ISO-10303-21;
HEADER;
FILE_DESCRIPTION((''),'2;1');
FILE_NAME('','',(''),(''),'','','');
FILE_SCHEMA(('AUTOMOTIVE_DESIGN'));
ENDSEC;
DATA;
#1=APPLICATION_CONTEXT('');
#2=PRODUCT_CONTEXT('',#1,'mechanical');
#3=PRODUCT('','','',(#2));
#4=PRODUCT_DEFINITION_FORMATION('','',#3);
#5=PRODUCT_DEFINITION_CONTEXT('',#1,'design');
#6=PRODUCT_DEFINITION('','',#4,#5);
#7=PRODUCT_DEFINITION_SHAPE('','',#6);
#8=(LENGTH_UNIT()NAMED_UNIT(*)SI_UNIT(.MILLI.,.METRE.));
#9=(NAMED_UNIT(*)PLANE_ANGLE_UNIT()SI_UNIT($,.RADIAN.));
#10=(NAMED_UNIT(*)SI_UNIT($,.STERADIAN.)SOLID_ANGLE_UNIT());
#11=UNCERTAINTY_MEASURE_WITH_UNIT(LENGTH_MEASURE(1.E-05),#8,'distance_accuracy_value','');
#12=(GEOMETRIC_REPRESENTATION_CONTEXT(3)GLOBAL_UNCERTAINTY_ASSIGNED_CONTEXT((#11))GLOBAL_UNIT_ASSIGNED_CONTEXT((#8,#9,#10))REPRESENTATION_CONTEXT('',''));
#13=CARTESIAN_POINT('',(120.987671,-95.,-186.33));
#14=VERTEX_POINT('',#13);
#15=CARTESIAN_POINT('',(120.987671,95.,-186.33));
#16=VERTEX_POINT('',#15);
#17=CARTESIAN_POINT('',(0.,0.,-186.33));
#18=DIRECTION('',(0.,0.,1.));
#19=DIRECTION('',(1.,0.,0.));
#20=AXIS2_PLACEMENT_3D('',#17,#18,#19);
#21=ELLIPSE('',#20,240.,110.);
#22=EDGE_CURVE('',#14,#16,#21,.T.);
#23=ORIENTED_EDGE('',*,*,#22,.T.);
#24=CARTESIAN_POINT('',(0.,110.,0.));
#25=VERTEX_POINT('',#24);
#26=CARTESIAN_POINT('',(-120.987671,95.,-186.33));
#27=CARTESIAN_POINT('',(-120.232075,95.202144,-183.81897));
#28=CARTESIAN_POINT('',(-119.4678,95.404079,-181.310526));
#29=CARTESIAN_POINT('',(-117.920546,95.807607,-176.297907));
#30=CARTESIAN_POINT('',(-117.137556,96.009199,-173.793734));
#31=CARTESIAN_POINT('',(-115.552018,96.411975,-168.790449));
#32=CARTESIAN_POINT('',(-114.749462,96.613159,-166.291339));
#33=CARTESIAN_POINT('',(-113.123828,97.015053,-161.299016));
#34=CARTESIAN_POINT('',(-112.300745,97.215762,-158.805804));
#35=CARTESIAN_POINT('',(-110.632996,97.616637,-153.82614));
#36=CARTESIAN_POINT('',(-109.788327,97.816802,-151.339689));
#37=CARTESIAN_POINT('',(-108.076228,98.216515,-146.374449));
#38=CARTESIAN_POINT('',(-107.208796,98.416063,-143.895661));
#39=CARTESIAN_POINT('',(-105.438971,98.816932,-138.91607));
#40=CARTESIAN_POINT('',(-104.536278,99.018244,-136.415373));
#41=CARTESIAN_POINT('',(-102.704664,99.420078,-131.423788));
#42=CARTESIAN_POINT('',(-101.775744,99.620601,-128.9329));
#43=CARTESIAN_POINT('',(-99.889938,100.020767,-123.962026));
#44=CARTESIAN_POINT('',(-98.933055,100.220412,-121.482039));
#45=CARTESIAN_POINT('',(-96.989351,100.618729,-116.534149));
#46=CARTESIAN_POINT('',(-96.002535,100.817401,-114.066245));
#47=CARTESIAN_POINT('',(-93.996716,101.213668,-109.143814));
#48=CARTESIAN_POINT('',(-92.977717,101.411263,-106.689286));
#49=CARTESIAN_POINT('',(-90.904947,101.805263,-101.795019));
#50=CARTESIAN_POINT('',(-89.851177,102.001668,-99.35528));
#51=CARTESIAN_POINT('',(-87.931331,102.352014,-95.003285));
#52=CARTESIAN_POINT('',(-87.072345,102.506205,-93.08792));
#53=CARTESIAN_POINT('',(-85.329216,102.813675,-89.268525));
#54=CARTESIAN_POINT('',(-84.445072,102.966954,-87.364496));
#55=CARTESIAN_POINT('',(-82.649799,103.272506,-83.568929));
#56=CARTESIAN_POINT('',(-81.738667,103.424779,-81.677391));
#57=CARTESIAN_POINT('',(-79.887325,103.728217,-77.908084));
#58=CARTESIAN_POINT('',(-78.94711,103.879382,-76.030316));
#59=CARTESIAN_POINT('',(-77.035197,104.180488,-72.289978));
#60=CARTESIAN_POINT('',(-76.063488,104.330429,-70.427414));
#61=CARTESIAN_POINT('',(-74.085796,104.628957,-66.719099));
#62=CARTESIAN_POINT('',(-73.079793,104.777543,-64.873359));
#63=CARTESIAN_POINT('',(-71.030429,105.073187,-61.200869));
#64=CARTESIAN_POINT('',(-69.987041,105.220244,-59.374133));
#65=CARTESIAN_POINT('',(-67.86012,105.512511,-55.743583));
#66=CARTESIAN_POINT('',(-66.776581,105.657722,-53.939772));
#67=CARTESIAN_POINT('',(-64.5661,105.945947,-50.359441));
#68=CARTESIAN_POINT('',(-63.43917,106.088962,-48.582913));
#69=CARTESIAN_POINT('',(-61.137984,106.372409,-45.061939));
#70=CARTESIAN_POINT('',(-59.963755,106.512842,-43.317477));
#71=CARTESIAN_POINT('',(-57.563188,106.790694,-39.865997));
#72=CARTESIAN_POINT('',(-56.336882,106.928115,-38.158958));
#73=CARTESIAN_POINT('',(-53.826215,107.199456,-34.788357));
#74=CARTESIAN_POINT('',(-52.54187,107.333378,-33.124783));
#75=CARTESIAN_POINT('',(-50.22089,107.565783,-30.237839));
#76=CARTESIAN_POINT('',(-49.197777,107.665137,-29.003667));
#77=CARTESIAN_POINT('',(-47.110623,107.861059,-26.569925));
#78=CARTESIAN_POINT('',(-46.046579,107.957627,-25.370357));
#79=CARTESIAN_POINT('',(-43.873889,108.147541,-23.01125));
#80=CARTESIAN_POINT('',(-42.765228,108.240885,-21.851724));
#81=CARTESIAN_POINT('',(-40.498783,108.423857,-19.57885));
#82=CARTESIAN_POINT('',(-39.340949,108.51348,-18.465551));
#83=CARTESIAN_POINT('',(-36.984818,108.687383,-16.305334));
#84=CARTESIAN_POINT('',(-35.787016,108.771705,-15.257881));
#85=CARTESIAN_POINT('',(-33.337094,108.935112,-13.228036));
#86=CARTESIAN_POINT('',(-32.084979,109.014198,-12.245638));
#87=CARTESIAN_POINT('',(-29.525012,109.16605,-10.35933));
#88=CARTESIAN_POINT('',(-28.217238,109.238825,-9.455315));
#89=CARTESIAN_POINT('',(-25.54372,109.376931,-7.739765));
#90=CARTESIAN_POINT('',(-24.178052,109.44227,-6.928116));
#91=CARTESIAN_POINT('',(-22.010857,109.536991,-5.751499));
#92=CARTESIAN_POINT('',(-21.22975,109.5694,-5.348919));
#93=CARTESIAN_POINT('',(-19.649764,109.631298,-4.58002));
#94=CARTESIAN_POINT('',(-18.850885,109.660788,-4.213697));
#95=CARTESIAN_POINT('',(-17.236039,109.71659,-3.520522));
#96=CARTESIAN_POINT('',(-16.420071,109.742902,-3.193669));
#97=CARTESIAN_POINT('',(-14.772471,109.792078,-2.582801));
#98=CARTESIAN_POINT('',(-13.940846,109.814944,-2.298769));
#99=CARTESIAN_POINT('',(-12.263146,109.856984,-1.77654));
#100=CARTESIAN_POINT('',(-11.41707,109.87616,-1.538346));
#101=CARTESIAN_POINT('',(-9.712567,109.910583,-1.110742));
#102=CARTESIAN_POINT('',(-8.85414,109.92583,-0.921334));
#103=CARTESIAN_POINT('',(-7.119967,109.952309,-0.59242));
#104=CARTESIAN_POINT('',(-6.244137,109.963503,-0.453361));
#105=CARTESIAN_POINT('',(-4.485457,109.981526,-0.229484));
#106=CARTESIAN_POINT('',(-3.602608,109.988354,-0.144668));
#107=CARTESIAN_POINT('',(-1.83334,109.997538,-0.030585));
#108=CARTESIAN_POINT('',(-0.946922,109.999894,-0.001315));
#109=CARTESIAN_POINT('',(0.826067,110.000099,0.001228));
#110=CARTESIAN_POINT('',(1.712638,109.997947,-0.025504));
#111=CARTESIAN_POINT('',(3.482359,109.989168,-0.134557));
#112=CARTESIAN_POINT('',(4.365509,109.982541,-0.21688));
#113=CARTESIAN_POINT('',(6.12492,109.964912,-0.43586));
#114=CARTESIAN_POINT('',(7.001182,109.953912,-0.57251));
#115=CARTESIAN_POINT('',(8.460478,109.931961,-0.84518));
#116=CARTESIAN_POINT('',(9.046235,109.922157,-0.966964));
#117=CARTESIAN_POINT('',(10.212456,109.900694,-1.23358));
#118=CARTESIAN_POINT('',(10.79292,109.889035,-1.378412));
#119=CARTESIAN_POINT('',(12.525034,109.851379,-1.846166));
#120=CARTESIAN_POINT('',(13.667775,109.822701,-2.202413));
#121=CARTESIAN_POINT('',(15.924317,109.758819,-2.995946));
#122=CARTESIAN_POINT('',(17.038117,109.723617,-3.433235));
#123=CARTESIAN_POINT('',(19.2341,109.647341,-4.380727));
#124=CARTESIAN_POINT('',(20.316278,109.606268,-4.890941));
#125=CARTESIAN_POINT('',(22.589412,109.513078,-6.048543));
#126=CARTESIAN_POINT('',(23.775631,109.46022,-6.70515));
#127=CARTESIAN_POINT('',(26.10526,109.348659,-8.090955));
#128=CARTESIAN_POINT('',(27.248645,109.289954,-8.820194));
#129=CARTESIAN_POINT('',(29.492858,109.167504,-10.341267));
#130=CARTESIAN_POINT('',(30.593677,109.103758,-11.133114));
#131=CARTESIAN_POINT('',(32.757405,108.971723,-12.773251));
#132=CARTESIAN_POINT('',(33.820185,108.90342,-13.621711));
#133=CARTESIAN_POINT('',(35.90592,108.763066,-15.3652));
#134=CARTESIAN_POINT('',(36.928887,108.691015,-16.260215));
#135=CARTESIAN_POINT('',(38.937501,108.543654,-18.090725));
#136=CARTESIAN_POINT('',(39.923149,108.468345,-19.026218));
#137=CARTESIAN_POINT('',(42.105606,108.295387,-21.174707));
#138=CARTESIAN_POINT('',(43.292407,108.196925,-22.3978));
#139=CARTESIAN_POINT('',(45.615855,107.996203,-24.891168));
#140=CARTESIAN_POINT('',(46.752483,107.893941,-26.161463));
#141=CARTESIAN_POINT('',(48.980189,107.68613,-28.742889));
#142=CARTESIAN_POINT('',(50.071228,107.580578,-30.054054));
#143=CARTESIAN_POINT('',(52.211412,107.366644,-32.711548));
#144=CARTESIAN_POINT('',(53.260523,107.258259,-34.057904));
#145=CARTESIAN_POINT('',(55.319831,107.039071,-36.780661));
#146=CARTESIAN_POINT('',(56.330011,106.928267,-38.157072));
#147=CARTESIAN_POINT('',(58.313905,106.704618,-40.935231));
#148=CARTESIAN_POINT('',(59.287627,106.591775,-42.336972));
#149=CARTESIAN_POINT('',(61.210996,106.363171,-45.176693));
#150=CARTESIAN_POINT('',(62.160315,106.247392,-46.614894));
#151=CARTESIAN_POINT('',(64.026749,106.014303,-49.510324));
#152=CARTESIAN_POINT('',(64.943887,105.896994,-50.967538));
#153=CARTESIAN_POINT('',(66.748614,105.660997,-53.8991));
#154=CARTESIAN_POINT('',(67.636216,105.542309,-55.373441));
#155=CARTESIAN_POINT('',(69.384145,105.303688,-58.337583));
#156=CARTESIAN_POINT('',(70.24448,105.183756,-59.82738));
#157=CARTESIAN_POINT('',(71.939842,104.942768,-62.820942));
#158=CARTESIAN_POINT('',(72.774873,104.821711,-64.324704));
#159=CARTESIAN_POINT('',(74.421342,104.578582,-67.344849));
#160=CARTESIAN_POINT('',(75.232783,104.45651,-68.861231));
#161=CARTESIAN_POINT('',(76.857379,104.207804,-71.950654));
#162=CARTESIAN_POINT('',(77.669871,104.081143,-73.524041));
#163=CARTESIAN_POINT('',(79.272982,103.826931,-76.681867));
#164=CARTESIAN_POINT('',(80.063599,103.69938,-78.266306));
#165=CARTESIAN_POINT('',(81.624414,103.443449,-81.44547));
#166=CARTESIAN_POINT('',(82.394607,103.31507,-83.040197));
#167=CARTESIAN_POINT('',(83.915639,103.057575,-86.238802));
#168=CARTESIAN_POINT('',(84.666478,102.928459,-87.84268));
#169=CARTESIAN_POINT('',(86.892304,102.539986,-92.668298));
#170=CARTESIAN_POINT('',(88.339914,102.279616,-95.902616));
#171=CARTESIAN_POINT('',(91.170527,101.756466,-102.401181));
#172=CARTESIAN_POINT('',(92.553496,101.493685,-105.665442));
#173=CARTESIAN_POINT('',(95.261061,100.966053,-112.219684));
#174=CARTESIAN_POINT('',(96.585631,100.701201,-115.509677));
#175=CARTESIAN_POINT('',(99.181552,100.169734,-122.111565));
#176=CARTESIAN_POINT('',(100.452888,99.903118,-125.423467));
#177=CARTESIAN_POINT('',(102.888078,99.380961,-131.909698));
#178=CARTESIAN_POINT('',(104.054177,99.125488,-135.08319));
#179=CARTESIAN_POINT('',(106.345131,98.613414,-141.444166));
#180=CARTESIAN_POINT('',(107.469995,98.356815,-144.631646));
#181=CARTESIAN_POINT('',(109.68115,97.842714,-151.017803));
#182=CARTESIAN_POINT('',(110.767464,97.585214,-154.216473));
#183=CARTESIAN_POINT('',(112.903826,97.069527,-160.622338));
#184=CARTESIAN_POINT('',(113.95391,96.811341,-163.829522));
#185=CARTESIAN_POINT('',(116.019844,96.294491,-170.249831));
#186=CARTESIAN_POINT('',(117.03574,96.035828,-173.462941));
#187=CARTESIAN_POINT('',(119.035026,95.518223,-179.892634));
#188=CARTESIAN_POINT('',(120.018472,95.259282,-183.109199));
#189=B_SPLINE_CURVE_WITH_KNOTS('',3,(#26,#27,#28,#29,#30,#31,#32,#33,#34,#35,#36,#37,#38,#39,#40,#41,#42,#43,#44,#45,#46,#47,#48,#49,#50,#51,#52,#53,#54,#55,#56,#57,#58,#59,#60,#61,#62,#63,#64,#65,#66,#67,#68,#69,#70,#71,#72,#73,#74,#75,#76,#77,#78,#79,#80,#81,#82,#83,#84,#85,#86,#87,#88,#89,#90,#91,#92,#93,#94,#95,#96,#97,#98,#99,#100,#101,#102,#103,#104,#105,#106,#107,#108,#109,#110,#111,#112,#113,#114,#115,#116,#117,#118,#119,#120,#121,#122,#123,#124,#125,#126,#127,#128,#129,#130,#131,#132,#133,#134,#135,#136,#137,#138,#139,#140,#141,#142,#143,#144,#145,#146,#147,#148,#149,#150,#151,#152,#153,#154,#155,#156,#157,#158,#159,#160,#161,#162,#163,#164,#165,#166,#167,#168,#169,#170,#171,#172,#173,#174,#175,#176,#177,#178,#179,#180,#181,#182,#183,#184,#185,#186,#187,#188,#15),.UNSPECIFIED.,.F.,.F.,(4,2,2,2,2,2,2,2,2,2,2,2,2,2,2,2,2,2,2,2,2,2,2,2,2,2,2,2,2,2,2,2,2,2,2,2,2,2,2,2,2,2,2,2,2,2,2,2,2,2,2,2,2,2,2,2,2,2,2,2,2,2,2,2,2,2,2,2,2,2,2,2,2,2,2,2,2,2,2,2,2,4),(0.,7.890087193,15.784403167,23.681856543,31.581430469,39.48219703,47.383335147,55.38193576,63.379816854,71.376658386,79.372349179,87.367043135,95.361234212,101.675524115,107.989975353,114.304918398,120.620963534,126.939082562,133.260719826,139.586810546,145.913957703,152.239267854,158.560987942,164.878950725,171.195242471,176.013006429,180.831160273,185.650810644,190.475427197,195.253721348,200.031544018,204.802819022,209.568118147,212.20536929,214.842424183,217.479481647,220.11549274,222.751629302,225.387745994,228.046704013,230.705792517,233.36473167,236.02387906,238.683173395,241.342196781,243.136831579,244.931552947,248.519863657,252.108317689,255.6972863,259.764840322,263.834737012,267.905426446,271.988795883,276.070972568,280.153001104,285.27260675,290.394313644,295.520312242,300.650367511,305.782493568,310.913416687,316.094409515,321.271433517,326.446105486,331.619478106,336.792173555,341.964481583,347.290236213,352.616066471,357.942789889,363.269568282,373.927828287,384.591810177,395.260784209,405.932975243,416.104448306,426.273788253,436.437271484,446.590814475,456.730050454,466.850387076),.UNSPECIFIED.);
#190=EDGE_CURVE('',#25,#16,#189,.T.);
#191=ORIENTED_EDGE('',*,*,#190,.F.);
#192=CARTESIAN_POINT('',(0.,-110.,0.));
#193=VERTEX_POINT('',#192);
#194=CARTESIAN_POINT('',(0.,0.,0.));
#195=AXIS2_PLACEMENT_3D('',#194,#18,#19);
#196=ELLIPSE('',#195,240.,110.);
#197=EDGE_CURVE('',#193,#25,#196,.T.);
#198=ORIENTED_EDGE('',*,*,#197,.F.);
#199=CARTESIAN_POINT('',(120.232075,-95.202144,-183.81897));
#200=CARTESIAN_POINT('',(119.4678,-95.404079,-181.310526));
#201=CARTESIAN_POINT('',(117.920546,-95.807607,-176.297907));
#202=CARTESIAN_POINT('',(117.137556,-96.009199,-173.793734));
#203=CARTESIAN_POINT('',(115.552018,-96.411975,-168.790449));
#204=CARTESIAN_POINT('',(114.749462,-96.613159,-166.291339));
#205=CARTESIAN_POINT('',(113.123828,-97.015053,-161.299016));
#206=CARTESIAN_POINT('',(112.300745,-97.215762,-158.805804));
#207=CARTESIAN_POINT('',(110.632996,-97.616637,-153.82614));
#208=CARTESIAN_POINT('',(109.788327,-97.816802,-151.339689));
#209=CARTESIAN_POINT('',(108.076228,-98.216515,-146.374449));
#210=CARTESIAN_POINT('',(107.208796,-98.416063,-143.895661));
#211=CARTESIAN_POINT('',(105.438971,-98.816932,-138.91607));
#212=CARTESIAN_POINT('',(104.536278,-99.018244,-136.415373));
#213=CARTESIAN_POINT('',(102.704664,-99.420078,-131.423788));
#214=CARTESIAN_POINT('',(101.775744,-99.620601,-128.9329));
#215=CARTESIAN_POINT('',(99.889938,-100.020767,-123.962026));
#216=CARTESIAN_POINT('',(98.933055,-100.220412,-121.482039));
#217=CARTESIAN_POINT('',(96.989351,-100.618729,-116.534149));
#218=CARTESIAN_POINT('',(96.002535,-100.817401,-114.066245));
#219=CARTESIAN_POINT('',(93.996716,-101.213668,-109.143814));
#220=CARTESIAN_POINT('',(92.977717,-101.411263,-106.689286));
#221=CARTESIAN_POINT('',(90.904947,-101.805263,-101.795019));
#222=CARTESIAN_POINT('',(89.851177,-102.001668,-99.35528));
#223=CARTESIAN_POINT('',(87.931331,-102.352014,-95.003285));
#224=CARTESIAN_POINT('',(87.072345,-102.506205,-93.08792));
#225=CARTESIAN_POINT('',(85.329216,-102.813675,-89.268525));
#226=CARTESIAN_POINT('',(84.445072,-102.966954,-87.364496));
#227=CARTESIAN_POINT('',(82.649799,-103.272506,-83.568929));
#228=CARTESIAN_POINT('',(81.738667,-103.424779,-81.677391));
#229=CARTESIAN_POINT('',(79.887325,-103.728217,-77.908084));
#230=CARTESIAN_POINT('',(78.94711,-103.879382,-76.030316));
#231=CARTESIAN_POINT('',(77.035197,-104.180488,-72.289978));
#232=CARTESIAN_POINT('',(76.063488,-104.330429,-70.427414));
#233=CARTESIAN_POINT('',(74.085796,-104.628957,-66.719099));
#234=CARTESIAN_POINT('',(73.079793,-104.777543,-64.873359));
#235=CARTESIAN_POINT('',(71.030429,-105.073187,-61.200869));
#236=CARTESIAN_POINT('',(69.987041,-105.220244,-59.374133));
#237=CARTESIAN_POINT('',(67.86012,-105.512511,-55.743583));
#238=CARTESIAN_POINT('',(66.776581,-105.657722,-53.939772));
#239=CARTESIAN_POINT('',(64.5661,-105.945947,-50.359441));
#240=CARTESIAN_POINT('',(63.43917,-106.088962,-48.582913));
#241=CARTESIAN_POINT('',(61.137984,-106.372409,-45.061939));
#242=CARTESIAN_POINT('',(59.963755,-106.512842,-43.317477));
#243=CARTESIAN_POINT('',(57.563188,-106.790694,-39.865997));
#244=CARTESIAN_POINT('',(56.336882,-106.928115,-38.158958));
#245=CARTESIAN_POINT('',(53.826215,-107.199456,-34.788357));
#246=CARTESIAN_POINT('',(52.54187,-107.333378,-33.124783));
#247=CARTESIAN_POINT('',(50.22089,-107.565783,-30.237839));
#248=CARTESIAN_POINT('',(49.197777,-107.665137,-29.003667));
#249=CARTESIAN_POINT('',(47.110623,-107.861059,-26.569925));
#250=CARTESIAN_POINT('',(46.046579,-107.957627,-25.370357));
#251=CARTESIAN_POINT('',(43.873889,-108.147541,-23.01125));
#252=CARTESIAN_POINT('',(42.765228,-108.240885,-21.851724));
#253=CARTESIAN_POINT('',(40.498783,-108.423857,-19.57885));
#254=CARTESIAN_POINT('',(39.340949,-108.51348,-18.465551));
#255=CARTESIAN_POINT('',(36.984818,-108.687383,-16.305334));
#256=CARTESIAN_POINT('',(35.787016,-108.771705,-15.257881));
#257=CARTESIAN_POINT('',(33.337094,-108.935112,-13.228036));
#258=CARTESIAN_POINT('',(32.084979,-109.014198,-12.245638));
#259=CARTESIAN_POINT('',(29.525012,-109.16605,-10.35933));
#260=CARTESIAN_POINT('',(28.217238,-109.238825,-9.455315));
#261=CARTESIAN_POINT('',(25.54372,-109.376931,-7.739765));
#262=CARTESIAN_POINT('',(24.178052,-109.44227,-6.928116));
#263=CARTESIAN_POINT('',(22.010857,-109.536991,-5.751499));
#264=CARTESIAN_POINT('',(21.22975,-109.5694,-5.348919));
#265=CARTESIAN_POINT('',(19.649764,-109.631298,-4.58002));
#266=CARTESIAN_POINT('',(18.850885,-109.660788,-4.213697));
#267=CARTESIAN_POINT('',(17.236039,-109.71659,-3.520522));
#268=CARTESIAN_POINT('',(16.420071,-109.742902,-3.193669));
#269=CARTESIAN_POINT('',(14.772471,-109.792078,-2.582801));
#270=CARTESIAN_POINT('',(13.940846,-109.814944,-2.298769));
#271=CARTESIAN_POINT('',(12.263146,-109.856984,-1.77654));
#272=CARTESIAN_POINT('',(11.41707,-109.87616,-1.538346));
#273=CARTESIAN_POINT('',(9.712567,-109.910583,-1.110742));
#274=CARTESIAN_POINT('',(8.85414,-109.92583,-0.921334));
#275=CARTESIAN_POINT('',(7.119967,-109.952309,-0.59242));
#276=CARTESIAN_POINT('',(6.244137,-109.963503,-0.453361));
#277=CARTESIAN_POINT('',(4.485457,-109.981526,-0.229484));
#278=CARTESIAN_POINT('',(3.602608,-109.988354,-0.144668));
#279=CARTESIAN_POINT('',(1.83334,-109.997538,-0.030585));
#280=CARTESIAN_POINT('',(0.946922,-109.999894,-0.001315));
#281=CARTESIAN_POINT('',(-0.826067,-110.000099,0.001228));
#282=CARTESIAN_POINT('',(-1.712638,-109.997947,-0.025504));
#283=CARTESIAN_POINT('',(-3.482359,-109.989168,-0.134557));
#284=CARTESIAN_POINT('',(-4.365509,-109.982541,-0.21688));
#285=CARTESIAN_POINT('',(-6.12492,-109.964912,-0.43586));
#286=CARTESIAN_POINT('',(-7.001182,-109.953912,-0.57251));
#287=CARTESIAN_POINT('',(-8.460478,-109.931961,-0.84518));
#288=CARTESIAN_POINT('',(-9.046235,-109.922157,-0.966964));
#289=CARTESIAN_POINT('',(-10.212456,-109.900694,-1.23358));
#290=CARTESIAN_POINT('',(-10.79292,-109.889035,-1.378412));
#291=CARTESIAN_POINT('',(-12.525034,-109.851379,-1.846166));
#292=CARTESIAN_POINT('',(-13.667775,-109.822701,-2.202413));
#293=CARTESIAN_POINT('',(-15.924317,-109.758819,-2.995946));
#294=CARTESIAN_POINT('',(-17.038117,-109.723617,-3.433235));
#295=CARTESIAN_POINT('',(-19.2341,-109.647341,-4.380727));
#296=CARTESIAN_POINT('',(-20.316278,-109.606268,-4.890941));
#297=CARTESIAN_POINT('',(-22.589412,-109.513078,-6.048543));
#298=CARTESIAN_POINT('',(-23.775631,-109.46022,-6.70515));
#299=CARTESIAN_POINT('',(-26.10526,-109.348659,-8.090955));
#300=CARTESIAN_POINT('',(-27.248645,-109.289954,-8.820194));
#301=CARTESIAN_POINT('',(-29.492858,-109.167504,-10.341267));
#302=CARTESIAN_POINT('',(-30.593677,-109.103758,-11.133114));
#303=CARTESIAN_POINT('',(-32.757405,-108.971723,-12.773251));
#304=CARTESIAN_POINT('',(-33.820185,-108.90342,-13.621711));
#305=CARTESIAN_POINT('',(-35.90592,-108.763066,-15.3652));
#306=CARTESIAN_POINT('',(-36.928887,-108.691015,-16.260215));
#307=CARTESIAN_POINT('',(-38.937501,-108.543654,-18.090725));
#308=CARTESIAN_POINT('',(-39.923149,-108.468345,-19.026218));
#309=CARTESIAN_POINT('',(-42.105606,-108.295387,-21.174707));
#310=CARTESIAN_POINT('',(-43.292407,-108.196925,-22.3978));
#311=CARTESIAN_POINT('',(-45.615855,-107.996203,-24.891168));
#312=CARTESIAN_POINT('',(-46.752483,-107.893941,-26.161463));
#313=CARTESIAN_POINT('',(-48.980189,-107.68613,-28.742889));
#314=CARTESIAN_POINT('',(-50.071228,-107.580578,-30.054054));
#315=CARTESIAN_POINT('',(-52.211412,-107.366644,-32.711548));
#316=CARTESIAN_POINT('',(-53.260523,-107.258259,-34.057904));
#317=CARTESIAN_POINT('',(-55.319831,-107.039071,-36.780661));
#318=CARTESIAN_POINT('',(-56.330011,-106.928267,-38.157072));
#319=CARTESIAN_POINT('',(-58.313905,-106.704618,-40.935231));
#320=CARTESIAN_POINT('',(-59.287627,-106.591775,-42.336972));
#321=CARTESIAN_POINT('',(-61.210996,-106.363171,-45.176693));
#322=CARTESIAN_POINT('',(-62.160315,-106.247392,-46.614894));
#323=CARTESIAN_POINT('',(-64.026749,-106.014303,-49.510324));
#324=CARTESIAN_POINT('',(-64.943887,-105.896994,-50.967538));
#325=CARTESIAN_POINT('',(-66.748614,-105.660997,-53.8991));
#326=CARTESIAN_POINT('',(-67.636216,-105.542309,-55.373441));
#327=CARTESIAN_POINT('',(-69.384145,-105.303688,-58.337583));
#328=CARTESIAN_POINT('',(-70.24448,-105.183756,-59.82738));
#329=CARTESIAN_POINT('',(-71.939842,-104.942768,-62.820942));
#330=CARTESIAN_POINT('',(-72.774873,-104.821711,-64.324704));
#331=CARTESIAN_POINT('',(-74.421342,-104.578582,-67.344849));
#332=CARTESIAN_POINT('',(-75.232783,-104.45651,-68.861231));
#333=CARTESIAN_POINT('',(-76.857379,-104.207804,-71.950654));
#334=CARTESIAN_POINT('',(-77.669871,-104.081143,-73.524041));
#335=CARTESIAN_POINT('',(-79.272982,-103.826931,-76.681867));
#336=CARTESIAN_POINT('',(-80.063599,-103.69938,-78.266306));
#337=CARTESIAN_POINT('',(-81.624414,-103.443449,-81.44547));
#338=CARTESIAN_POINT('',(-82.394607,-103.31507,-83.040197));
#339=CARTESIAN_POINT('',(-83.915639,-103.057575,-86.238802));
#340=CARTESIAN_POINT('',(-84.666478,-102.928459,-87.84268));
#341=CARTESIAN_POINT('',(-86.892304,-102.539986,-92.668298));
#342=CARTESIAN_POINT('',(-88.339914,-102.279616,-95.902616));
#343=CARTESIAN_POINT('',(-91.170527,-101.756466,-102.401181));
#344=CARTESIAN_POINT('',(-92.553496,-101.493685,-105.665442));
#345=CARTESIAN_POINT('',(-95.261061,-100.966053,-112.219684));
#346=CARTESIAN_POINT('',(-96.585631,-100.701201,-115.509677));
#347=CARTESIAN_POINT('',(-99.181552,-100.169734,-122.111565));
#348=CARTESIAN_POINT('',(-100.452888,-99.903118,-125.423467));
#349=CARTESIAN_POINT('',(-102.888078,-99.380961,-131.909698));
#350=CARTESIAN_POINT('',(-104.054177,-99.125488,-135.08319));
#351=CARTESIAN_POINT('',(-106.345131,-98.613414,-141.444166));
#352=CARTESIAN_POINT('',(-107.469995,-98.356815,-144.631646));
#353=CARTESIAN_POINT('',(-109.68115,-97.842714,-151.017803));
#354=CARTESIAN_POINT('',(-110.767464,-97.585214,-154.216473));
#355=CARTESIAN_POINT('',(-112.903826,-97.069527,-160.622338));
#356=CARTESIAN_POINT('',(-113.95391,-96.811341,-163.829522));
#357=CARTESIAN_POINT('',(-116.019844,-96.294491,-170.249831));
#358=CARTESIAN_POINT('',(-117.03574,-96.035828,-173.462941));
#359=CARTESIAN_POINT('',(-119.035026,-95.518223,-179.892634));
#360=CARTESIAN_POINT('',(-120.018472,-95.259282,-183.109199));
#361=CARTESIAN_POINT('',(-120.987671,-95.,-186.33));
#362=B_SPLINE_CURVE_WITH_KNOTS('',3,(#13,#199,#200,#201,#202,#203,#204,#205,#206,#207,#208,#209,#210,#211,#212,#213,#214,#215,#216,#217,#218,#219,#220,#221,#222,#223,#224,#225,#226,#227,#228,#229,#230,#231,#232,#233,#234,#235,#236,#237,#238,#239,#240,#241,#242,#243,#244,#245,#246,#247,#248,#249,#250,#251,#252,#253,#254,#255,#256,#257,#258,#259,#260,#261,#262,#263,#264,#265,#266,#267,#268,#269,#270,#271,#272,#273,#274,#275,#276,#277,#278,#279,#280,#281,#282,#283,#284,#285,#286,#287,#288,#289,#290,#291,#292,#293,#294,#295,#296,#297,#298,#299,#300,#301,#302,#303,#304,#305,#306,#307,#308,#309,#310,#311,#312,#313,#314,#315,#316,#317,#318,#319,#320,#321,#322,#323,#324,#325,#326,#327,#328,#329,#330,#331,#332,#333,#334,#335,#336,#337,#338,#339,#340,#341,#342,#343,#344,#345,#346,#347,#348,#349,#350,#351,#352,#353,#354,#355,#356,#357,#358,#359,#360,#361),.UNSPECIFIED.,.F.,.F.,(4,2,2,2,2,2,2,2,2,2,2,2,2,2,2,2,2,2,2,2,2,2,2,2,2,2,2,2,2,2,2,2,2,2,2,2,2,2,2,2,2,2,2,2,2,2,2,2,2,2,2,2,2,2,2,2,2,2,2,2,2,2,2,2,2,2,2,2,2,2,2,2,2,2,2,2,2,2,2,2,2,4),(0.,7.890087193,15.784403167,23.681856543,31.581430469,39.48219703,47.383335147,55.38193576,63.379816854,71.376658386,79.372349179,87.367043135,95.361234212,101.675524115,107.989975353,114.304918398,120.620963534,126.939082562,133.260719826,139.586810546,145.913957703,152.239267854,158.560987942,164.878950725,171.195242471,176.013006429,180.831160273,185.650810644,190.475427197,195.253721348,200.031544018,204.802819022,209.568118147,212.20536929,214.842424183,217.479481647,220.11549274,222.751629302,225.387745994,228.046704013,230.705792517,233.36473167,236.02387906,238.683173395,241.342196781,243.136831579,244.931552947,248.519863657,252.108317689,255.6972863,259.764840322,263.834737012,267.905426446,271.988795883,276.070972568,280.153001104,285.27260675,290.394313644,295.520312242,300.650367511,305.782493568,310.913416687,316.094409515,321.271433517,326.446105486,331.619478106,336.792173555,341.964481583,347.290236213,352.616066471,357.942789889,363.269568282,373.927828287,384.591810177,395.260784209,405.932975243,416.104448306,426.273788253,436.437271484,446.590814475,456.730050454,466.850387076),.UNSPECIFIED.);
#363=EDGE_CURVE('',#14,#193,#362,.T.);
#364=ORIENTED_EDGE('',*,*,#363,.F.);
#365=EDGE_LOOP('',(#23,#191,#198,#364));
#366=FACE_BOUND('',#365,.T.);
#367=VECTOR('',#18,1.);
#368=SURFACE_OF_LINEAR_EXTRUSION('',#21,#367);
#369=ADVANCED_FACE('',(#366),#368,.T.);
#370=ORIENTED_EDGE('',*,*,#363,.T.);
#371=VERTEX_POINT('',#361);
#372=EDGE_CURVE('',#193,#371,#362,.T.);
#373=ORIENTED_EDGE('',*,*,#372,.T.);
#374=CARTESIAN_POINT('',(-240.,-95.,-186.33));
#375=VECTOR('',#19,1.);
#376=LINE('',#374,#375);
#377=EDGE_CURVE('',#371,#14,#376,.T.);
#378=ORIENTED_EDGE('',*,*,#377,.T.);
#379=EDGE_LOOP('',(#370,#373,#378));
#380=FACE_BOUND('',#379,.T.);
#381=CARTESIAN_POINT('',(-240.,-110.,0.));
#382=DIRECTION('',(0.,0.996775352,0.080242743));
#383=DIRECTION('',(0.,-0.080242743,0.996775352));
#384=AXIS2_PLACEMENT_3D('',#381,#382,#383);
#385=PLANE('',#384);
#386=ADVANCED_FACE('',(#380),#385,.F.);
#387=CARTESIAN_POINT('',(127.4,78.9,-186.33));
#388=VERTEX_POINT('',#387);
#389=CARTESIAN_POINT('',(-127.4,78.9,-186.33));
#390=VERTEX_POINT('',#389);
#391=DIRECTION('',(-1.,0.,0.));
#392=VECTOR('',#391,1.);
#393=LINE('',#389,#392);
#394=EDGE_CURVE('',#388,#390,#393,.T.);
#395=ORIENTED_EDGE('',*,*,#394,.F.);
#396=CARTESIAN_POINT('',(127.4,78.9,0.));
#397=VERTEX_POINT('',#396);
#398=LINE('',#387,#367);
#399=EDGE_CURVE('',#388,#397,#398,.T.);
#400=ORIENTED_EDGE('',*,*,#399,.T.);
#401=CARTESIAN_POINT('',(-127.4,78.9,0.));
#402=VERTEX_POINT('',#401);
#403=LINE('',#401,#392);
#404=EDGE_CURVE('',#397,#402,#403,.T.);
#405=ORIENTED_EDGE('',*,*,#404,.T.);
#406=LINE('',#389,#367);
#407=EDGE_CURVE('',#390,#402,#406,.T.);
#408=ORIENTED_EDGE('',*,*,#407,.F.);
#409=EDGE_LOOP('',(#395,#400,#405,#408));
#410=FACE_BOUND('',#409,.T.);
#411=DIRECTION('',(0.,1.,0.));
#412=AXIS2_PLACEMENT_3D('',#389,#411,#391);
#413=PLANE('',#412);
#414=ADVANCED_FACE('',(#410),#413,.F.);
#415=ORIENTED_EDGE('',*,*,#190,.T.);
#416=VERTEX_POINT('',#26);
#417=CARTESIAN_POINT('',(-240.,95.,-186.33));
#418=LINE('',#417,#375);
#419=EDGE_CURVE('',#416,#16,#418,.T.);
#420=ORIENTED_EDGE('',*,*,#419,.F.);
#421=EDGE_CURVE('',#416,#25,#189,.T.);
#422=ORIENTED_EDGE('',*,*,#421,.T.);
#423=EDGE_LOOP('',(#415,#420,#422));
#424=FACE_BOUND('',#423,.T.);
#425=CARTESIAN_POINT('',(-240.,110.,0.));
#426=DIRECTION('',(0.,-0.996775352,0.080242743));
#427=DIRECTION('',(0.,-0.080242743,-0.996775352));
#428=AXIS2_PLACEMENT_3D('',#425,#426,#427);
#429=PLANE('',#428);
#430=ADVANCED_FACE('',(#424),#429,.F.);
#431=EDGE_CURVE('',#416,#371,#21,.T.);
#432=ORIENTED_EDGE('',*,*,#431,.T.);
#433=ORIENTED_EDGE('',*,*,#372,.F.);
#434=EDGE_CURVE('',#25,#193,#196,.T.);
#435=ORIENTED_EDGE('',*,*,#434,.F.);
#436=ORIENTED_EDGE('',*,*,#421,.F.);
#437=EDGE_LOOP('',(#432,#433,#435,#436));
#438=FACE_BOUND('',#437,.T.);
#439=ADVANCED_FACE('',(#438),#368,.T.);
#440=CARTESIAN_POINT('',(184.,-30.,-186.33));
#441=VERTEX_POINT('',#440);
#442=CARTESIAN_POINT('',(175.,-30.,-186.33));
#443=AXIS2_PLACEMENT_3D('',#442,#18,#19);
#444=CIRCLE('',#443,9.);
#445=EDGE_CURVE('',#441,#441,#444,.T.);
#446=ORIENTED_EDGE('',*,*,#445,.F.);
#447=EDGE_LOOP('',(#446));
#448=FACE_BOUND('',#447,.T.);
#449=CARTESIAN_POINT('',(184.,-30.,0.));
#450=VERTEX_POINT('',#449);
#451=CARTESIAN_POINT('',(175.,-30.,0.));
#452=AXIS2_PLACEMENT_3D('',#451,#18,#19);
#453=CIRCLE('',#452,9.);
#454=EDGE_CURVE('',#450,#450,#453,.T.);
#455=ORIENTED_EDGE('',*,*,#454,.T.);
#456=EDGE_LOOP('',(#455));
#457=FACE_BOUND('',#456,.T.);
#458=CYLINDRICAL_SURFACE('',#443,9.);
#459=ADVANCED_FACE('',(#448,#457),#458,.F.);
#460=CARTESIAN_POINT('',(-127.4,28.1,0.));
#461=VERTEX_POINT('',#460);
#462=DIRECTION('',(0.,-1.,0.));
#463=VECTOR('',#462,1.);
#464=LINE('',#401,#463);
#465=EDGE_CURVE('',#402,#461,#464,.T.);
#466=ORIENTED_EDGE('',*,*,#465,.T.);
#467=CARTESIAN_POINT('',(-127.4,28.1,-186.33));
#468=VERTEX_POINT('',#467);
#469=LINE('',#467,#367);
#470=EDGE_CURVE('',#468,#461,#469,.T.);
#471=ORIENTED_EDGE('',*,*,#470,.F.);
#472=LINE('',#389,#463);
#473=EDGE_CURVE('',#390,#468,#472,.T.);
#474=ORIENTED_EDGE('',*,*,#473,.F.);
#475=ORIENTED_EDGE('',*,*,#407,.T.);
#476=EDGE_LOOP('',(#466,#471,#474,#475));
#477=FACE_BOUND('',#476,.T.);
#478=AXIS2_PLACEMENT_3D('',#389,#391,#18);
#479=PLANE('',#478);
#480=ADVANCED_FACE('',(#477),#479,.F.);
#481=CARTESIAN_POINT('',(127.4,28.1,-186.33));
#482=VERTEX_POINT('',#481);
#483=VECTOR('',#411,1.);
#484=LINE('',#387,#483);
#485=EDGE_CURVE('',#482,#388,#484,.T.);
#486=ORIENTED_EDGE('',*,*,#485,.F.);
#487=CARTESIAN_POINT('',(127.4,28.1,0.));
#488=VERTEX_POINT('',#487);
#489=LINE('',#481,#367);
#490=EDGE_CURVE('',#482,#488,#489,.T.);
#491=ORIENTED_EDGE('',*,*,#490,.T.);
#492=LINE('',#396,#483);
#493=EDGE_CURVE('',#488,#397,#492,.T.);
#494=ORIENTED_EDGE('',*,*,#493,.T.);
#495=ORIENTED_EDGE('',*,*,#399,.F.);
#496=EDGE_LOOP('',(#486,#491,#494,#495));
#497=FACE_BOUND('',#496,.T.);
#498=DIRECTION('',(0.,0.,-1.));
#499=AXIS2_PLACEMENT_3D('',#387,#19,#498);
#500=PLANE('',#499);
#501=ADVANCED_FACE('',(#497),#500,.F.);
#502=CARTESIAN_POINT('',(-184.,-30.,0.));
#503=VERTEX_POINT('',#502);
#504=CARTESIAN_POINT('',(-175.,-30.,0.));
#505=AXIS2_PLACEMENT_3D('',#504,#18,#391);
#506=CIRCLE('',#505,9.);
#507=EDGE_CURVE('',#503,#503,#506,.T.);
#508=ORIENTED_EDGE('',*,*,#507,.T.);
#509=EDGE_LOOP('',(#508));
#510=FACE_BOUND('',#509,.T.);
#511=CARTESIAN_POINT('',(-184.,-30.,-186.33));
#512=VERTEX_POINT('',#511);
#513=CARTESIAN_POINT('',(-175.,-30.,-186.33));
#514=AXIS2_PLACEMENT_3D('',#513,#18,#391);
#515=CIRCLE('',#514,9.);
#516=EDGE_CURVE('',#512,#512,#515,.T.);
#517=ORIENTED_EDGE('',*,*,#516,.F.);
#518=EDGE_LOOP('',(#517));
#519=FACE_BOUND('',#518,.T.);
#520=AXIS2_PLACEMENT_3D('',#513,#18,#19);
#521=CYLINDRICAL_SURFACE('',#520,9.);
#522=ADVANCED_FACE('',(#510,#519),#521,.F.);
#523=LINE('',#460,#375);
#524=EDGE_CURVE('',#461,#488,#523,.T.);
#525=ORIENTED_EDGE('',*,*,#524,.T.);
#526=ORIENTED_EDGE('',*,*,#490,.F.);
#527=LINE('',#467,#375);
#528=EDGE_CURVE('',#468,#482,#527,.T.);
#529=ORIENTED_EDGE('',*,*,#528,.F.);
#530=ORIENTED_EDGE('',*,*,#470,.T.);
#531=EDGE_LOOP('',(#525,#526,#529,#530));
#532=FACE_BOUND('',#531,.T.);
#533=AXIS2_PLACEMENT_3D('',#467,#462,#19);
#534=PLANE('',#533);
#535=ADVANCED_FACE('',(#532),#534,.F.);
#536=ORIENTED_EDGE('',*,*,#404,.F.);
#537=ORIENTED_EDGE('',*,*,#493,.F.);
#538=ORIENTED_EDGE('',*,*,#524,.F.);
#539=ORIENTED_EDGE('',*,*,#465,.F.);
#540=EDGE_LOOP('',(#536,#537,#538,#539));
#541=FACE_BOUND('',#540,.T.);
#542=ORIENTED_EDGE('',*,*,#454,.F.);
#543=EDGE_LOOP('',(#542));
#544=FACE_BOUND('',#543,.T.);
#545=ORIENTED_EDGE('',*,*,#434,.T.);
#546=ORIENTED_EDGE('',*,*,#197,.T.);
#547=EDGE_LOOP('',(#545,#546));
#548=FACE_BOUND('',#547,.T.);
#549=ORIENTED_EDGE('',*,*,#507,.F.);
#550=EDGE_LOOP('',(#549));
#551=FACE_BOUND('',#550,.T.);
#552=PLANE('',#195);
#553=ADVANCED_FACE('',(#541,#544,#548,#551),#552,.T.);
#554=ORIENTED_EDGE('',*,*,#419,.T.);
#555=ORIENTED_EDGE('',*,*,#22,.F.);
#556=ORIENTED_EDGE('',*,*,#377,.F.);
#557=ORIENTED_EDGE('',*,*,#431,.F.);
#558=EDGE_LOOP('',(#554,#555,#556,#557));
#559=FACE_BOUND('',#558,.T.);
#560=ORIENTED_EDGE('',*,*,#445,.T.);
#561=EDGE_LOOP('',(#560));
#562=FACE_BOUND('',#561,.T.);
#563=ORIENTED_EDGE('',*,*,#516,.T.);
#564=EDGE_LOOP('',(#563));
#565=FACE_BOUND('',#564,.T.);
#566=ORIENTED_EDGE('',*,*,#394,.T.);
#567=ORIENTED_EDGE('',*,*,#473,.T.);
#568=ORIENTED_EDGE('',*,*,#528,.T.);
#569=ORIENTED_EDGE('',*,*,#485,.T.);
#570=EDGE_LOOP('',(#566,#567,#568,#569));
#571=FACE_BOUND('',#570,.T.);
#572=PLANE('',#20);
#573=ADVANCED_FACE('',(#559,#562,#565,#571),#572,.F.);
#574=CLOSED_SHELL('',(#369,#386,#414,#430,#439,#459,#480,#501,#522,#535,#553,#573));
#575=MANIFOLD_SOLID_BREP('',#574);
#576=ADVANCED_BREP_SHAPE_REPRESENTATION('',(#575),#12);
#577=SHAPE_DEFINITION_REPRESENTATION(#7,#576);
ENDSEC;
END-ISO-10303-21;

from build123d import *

# Parameters (mm, degrees)
SKETCH1_RX              = 240
SKETCH1_RY              = 110
BOSS_EXTRUDE1_DEPTH     = 186.33
SKETCH10_W              = 254.8
SKETCH10_H              = 50.8
CUT_EXTRUDE5_DEPTH      = 324.139085999
SKETCH12_R              = 9
CUT_EXTRUDE8_DEPTH      = 324.139085999
CUT_EXTRUDE9_DEPTH      = 324.139085999
CUT_EXTRUDE9_DEPTH_BACK = 324.139085999


with BuildPart() as part:
    # Sketch1 → Boss-Extrude1 (new body)
    with BuildSketch(Plane.XY):
        with Locations((0, 0)):
            Ellipse(SKETCH1_RX, SKETCH1_RY)
    extrude(amount=-BOSS_EXTRUDE1_DEPTH)

    # Sketch10 → Cut-Extrude5 (cut, through all)
    with BuildSketch(Plane.XY):
        with Locations((0, 53.5)):
            Rectangle(SKETCH10_W, SKETCH10_H)
    extrude(amount=-CUT_EXTRUDE5_DEPTH, mode=Mode.SUBTRACT)

    # Sketch12 → Cut-Extrude8 (cut, through all)
    with BuildSketch(Plane.XY):
        with Locations((175, -30)):
            Circle(SKETCH12_R)
        with Locations(Location((-175, -30, 0), (0, 0, 180))):
            Circle(SKETCH12_R)
    extrude(amount=-CUT_EXTRUDE8_DEPTH, mode=Mode.SUBTRACT)

    # Sketch14 → Cut-Extrude9 (cut, two sides: drawn at the far end of the back side and taken through both)
    with BuildSketch(Plane(origin=(0, 0, 0), x_dir=(0, 0, -1), z_dir=(1, 0, 0)).offset(-CUT_EXTRUDE9_DEPTH_BACK)):
        Polygon((0, 110), (186.33, 95), (186.33, 110), align=None)
        Polygon((0, -110), (186.33, -95), (186.33, -110), align=None)
    extrude(amount=CUT_EXTRUDE9_DEPTH + CUT_EXTRUDE9_DEPTH_BACK, mode=Mode.SUBTRACT)


solid = part.part
